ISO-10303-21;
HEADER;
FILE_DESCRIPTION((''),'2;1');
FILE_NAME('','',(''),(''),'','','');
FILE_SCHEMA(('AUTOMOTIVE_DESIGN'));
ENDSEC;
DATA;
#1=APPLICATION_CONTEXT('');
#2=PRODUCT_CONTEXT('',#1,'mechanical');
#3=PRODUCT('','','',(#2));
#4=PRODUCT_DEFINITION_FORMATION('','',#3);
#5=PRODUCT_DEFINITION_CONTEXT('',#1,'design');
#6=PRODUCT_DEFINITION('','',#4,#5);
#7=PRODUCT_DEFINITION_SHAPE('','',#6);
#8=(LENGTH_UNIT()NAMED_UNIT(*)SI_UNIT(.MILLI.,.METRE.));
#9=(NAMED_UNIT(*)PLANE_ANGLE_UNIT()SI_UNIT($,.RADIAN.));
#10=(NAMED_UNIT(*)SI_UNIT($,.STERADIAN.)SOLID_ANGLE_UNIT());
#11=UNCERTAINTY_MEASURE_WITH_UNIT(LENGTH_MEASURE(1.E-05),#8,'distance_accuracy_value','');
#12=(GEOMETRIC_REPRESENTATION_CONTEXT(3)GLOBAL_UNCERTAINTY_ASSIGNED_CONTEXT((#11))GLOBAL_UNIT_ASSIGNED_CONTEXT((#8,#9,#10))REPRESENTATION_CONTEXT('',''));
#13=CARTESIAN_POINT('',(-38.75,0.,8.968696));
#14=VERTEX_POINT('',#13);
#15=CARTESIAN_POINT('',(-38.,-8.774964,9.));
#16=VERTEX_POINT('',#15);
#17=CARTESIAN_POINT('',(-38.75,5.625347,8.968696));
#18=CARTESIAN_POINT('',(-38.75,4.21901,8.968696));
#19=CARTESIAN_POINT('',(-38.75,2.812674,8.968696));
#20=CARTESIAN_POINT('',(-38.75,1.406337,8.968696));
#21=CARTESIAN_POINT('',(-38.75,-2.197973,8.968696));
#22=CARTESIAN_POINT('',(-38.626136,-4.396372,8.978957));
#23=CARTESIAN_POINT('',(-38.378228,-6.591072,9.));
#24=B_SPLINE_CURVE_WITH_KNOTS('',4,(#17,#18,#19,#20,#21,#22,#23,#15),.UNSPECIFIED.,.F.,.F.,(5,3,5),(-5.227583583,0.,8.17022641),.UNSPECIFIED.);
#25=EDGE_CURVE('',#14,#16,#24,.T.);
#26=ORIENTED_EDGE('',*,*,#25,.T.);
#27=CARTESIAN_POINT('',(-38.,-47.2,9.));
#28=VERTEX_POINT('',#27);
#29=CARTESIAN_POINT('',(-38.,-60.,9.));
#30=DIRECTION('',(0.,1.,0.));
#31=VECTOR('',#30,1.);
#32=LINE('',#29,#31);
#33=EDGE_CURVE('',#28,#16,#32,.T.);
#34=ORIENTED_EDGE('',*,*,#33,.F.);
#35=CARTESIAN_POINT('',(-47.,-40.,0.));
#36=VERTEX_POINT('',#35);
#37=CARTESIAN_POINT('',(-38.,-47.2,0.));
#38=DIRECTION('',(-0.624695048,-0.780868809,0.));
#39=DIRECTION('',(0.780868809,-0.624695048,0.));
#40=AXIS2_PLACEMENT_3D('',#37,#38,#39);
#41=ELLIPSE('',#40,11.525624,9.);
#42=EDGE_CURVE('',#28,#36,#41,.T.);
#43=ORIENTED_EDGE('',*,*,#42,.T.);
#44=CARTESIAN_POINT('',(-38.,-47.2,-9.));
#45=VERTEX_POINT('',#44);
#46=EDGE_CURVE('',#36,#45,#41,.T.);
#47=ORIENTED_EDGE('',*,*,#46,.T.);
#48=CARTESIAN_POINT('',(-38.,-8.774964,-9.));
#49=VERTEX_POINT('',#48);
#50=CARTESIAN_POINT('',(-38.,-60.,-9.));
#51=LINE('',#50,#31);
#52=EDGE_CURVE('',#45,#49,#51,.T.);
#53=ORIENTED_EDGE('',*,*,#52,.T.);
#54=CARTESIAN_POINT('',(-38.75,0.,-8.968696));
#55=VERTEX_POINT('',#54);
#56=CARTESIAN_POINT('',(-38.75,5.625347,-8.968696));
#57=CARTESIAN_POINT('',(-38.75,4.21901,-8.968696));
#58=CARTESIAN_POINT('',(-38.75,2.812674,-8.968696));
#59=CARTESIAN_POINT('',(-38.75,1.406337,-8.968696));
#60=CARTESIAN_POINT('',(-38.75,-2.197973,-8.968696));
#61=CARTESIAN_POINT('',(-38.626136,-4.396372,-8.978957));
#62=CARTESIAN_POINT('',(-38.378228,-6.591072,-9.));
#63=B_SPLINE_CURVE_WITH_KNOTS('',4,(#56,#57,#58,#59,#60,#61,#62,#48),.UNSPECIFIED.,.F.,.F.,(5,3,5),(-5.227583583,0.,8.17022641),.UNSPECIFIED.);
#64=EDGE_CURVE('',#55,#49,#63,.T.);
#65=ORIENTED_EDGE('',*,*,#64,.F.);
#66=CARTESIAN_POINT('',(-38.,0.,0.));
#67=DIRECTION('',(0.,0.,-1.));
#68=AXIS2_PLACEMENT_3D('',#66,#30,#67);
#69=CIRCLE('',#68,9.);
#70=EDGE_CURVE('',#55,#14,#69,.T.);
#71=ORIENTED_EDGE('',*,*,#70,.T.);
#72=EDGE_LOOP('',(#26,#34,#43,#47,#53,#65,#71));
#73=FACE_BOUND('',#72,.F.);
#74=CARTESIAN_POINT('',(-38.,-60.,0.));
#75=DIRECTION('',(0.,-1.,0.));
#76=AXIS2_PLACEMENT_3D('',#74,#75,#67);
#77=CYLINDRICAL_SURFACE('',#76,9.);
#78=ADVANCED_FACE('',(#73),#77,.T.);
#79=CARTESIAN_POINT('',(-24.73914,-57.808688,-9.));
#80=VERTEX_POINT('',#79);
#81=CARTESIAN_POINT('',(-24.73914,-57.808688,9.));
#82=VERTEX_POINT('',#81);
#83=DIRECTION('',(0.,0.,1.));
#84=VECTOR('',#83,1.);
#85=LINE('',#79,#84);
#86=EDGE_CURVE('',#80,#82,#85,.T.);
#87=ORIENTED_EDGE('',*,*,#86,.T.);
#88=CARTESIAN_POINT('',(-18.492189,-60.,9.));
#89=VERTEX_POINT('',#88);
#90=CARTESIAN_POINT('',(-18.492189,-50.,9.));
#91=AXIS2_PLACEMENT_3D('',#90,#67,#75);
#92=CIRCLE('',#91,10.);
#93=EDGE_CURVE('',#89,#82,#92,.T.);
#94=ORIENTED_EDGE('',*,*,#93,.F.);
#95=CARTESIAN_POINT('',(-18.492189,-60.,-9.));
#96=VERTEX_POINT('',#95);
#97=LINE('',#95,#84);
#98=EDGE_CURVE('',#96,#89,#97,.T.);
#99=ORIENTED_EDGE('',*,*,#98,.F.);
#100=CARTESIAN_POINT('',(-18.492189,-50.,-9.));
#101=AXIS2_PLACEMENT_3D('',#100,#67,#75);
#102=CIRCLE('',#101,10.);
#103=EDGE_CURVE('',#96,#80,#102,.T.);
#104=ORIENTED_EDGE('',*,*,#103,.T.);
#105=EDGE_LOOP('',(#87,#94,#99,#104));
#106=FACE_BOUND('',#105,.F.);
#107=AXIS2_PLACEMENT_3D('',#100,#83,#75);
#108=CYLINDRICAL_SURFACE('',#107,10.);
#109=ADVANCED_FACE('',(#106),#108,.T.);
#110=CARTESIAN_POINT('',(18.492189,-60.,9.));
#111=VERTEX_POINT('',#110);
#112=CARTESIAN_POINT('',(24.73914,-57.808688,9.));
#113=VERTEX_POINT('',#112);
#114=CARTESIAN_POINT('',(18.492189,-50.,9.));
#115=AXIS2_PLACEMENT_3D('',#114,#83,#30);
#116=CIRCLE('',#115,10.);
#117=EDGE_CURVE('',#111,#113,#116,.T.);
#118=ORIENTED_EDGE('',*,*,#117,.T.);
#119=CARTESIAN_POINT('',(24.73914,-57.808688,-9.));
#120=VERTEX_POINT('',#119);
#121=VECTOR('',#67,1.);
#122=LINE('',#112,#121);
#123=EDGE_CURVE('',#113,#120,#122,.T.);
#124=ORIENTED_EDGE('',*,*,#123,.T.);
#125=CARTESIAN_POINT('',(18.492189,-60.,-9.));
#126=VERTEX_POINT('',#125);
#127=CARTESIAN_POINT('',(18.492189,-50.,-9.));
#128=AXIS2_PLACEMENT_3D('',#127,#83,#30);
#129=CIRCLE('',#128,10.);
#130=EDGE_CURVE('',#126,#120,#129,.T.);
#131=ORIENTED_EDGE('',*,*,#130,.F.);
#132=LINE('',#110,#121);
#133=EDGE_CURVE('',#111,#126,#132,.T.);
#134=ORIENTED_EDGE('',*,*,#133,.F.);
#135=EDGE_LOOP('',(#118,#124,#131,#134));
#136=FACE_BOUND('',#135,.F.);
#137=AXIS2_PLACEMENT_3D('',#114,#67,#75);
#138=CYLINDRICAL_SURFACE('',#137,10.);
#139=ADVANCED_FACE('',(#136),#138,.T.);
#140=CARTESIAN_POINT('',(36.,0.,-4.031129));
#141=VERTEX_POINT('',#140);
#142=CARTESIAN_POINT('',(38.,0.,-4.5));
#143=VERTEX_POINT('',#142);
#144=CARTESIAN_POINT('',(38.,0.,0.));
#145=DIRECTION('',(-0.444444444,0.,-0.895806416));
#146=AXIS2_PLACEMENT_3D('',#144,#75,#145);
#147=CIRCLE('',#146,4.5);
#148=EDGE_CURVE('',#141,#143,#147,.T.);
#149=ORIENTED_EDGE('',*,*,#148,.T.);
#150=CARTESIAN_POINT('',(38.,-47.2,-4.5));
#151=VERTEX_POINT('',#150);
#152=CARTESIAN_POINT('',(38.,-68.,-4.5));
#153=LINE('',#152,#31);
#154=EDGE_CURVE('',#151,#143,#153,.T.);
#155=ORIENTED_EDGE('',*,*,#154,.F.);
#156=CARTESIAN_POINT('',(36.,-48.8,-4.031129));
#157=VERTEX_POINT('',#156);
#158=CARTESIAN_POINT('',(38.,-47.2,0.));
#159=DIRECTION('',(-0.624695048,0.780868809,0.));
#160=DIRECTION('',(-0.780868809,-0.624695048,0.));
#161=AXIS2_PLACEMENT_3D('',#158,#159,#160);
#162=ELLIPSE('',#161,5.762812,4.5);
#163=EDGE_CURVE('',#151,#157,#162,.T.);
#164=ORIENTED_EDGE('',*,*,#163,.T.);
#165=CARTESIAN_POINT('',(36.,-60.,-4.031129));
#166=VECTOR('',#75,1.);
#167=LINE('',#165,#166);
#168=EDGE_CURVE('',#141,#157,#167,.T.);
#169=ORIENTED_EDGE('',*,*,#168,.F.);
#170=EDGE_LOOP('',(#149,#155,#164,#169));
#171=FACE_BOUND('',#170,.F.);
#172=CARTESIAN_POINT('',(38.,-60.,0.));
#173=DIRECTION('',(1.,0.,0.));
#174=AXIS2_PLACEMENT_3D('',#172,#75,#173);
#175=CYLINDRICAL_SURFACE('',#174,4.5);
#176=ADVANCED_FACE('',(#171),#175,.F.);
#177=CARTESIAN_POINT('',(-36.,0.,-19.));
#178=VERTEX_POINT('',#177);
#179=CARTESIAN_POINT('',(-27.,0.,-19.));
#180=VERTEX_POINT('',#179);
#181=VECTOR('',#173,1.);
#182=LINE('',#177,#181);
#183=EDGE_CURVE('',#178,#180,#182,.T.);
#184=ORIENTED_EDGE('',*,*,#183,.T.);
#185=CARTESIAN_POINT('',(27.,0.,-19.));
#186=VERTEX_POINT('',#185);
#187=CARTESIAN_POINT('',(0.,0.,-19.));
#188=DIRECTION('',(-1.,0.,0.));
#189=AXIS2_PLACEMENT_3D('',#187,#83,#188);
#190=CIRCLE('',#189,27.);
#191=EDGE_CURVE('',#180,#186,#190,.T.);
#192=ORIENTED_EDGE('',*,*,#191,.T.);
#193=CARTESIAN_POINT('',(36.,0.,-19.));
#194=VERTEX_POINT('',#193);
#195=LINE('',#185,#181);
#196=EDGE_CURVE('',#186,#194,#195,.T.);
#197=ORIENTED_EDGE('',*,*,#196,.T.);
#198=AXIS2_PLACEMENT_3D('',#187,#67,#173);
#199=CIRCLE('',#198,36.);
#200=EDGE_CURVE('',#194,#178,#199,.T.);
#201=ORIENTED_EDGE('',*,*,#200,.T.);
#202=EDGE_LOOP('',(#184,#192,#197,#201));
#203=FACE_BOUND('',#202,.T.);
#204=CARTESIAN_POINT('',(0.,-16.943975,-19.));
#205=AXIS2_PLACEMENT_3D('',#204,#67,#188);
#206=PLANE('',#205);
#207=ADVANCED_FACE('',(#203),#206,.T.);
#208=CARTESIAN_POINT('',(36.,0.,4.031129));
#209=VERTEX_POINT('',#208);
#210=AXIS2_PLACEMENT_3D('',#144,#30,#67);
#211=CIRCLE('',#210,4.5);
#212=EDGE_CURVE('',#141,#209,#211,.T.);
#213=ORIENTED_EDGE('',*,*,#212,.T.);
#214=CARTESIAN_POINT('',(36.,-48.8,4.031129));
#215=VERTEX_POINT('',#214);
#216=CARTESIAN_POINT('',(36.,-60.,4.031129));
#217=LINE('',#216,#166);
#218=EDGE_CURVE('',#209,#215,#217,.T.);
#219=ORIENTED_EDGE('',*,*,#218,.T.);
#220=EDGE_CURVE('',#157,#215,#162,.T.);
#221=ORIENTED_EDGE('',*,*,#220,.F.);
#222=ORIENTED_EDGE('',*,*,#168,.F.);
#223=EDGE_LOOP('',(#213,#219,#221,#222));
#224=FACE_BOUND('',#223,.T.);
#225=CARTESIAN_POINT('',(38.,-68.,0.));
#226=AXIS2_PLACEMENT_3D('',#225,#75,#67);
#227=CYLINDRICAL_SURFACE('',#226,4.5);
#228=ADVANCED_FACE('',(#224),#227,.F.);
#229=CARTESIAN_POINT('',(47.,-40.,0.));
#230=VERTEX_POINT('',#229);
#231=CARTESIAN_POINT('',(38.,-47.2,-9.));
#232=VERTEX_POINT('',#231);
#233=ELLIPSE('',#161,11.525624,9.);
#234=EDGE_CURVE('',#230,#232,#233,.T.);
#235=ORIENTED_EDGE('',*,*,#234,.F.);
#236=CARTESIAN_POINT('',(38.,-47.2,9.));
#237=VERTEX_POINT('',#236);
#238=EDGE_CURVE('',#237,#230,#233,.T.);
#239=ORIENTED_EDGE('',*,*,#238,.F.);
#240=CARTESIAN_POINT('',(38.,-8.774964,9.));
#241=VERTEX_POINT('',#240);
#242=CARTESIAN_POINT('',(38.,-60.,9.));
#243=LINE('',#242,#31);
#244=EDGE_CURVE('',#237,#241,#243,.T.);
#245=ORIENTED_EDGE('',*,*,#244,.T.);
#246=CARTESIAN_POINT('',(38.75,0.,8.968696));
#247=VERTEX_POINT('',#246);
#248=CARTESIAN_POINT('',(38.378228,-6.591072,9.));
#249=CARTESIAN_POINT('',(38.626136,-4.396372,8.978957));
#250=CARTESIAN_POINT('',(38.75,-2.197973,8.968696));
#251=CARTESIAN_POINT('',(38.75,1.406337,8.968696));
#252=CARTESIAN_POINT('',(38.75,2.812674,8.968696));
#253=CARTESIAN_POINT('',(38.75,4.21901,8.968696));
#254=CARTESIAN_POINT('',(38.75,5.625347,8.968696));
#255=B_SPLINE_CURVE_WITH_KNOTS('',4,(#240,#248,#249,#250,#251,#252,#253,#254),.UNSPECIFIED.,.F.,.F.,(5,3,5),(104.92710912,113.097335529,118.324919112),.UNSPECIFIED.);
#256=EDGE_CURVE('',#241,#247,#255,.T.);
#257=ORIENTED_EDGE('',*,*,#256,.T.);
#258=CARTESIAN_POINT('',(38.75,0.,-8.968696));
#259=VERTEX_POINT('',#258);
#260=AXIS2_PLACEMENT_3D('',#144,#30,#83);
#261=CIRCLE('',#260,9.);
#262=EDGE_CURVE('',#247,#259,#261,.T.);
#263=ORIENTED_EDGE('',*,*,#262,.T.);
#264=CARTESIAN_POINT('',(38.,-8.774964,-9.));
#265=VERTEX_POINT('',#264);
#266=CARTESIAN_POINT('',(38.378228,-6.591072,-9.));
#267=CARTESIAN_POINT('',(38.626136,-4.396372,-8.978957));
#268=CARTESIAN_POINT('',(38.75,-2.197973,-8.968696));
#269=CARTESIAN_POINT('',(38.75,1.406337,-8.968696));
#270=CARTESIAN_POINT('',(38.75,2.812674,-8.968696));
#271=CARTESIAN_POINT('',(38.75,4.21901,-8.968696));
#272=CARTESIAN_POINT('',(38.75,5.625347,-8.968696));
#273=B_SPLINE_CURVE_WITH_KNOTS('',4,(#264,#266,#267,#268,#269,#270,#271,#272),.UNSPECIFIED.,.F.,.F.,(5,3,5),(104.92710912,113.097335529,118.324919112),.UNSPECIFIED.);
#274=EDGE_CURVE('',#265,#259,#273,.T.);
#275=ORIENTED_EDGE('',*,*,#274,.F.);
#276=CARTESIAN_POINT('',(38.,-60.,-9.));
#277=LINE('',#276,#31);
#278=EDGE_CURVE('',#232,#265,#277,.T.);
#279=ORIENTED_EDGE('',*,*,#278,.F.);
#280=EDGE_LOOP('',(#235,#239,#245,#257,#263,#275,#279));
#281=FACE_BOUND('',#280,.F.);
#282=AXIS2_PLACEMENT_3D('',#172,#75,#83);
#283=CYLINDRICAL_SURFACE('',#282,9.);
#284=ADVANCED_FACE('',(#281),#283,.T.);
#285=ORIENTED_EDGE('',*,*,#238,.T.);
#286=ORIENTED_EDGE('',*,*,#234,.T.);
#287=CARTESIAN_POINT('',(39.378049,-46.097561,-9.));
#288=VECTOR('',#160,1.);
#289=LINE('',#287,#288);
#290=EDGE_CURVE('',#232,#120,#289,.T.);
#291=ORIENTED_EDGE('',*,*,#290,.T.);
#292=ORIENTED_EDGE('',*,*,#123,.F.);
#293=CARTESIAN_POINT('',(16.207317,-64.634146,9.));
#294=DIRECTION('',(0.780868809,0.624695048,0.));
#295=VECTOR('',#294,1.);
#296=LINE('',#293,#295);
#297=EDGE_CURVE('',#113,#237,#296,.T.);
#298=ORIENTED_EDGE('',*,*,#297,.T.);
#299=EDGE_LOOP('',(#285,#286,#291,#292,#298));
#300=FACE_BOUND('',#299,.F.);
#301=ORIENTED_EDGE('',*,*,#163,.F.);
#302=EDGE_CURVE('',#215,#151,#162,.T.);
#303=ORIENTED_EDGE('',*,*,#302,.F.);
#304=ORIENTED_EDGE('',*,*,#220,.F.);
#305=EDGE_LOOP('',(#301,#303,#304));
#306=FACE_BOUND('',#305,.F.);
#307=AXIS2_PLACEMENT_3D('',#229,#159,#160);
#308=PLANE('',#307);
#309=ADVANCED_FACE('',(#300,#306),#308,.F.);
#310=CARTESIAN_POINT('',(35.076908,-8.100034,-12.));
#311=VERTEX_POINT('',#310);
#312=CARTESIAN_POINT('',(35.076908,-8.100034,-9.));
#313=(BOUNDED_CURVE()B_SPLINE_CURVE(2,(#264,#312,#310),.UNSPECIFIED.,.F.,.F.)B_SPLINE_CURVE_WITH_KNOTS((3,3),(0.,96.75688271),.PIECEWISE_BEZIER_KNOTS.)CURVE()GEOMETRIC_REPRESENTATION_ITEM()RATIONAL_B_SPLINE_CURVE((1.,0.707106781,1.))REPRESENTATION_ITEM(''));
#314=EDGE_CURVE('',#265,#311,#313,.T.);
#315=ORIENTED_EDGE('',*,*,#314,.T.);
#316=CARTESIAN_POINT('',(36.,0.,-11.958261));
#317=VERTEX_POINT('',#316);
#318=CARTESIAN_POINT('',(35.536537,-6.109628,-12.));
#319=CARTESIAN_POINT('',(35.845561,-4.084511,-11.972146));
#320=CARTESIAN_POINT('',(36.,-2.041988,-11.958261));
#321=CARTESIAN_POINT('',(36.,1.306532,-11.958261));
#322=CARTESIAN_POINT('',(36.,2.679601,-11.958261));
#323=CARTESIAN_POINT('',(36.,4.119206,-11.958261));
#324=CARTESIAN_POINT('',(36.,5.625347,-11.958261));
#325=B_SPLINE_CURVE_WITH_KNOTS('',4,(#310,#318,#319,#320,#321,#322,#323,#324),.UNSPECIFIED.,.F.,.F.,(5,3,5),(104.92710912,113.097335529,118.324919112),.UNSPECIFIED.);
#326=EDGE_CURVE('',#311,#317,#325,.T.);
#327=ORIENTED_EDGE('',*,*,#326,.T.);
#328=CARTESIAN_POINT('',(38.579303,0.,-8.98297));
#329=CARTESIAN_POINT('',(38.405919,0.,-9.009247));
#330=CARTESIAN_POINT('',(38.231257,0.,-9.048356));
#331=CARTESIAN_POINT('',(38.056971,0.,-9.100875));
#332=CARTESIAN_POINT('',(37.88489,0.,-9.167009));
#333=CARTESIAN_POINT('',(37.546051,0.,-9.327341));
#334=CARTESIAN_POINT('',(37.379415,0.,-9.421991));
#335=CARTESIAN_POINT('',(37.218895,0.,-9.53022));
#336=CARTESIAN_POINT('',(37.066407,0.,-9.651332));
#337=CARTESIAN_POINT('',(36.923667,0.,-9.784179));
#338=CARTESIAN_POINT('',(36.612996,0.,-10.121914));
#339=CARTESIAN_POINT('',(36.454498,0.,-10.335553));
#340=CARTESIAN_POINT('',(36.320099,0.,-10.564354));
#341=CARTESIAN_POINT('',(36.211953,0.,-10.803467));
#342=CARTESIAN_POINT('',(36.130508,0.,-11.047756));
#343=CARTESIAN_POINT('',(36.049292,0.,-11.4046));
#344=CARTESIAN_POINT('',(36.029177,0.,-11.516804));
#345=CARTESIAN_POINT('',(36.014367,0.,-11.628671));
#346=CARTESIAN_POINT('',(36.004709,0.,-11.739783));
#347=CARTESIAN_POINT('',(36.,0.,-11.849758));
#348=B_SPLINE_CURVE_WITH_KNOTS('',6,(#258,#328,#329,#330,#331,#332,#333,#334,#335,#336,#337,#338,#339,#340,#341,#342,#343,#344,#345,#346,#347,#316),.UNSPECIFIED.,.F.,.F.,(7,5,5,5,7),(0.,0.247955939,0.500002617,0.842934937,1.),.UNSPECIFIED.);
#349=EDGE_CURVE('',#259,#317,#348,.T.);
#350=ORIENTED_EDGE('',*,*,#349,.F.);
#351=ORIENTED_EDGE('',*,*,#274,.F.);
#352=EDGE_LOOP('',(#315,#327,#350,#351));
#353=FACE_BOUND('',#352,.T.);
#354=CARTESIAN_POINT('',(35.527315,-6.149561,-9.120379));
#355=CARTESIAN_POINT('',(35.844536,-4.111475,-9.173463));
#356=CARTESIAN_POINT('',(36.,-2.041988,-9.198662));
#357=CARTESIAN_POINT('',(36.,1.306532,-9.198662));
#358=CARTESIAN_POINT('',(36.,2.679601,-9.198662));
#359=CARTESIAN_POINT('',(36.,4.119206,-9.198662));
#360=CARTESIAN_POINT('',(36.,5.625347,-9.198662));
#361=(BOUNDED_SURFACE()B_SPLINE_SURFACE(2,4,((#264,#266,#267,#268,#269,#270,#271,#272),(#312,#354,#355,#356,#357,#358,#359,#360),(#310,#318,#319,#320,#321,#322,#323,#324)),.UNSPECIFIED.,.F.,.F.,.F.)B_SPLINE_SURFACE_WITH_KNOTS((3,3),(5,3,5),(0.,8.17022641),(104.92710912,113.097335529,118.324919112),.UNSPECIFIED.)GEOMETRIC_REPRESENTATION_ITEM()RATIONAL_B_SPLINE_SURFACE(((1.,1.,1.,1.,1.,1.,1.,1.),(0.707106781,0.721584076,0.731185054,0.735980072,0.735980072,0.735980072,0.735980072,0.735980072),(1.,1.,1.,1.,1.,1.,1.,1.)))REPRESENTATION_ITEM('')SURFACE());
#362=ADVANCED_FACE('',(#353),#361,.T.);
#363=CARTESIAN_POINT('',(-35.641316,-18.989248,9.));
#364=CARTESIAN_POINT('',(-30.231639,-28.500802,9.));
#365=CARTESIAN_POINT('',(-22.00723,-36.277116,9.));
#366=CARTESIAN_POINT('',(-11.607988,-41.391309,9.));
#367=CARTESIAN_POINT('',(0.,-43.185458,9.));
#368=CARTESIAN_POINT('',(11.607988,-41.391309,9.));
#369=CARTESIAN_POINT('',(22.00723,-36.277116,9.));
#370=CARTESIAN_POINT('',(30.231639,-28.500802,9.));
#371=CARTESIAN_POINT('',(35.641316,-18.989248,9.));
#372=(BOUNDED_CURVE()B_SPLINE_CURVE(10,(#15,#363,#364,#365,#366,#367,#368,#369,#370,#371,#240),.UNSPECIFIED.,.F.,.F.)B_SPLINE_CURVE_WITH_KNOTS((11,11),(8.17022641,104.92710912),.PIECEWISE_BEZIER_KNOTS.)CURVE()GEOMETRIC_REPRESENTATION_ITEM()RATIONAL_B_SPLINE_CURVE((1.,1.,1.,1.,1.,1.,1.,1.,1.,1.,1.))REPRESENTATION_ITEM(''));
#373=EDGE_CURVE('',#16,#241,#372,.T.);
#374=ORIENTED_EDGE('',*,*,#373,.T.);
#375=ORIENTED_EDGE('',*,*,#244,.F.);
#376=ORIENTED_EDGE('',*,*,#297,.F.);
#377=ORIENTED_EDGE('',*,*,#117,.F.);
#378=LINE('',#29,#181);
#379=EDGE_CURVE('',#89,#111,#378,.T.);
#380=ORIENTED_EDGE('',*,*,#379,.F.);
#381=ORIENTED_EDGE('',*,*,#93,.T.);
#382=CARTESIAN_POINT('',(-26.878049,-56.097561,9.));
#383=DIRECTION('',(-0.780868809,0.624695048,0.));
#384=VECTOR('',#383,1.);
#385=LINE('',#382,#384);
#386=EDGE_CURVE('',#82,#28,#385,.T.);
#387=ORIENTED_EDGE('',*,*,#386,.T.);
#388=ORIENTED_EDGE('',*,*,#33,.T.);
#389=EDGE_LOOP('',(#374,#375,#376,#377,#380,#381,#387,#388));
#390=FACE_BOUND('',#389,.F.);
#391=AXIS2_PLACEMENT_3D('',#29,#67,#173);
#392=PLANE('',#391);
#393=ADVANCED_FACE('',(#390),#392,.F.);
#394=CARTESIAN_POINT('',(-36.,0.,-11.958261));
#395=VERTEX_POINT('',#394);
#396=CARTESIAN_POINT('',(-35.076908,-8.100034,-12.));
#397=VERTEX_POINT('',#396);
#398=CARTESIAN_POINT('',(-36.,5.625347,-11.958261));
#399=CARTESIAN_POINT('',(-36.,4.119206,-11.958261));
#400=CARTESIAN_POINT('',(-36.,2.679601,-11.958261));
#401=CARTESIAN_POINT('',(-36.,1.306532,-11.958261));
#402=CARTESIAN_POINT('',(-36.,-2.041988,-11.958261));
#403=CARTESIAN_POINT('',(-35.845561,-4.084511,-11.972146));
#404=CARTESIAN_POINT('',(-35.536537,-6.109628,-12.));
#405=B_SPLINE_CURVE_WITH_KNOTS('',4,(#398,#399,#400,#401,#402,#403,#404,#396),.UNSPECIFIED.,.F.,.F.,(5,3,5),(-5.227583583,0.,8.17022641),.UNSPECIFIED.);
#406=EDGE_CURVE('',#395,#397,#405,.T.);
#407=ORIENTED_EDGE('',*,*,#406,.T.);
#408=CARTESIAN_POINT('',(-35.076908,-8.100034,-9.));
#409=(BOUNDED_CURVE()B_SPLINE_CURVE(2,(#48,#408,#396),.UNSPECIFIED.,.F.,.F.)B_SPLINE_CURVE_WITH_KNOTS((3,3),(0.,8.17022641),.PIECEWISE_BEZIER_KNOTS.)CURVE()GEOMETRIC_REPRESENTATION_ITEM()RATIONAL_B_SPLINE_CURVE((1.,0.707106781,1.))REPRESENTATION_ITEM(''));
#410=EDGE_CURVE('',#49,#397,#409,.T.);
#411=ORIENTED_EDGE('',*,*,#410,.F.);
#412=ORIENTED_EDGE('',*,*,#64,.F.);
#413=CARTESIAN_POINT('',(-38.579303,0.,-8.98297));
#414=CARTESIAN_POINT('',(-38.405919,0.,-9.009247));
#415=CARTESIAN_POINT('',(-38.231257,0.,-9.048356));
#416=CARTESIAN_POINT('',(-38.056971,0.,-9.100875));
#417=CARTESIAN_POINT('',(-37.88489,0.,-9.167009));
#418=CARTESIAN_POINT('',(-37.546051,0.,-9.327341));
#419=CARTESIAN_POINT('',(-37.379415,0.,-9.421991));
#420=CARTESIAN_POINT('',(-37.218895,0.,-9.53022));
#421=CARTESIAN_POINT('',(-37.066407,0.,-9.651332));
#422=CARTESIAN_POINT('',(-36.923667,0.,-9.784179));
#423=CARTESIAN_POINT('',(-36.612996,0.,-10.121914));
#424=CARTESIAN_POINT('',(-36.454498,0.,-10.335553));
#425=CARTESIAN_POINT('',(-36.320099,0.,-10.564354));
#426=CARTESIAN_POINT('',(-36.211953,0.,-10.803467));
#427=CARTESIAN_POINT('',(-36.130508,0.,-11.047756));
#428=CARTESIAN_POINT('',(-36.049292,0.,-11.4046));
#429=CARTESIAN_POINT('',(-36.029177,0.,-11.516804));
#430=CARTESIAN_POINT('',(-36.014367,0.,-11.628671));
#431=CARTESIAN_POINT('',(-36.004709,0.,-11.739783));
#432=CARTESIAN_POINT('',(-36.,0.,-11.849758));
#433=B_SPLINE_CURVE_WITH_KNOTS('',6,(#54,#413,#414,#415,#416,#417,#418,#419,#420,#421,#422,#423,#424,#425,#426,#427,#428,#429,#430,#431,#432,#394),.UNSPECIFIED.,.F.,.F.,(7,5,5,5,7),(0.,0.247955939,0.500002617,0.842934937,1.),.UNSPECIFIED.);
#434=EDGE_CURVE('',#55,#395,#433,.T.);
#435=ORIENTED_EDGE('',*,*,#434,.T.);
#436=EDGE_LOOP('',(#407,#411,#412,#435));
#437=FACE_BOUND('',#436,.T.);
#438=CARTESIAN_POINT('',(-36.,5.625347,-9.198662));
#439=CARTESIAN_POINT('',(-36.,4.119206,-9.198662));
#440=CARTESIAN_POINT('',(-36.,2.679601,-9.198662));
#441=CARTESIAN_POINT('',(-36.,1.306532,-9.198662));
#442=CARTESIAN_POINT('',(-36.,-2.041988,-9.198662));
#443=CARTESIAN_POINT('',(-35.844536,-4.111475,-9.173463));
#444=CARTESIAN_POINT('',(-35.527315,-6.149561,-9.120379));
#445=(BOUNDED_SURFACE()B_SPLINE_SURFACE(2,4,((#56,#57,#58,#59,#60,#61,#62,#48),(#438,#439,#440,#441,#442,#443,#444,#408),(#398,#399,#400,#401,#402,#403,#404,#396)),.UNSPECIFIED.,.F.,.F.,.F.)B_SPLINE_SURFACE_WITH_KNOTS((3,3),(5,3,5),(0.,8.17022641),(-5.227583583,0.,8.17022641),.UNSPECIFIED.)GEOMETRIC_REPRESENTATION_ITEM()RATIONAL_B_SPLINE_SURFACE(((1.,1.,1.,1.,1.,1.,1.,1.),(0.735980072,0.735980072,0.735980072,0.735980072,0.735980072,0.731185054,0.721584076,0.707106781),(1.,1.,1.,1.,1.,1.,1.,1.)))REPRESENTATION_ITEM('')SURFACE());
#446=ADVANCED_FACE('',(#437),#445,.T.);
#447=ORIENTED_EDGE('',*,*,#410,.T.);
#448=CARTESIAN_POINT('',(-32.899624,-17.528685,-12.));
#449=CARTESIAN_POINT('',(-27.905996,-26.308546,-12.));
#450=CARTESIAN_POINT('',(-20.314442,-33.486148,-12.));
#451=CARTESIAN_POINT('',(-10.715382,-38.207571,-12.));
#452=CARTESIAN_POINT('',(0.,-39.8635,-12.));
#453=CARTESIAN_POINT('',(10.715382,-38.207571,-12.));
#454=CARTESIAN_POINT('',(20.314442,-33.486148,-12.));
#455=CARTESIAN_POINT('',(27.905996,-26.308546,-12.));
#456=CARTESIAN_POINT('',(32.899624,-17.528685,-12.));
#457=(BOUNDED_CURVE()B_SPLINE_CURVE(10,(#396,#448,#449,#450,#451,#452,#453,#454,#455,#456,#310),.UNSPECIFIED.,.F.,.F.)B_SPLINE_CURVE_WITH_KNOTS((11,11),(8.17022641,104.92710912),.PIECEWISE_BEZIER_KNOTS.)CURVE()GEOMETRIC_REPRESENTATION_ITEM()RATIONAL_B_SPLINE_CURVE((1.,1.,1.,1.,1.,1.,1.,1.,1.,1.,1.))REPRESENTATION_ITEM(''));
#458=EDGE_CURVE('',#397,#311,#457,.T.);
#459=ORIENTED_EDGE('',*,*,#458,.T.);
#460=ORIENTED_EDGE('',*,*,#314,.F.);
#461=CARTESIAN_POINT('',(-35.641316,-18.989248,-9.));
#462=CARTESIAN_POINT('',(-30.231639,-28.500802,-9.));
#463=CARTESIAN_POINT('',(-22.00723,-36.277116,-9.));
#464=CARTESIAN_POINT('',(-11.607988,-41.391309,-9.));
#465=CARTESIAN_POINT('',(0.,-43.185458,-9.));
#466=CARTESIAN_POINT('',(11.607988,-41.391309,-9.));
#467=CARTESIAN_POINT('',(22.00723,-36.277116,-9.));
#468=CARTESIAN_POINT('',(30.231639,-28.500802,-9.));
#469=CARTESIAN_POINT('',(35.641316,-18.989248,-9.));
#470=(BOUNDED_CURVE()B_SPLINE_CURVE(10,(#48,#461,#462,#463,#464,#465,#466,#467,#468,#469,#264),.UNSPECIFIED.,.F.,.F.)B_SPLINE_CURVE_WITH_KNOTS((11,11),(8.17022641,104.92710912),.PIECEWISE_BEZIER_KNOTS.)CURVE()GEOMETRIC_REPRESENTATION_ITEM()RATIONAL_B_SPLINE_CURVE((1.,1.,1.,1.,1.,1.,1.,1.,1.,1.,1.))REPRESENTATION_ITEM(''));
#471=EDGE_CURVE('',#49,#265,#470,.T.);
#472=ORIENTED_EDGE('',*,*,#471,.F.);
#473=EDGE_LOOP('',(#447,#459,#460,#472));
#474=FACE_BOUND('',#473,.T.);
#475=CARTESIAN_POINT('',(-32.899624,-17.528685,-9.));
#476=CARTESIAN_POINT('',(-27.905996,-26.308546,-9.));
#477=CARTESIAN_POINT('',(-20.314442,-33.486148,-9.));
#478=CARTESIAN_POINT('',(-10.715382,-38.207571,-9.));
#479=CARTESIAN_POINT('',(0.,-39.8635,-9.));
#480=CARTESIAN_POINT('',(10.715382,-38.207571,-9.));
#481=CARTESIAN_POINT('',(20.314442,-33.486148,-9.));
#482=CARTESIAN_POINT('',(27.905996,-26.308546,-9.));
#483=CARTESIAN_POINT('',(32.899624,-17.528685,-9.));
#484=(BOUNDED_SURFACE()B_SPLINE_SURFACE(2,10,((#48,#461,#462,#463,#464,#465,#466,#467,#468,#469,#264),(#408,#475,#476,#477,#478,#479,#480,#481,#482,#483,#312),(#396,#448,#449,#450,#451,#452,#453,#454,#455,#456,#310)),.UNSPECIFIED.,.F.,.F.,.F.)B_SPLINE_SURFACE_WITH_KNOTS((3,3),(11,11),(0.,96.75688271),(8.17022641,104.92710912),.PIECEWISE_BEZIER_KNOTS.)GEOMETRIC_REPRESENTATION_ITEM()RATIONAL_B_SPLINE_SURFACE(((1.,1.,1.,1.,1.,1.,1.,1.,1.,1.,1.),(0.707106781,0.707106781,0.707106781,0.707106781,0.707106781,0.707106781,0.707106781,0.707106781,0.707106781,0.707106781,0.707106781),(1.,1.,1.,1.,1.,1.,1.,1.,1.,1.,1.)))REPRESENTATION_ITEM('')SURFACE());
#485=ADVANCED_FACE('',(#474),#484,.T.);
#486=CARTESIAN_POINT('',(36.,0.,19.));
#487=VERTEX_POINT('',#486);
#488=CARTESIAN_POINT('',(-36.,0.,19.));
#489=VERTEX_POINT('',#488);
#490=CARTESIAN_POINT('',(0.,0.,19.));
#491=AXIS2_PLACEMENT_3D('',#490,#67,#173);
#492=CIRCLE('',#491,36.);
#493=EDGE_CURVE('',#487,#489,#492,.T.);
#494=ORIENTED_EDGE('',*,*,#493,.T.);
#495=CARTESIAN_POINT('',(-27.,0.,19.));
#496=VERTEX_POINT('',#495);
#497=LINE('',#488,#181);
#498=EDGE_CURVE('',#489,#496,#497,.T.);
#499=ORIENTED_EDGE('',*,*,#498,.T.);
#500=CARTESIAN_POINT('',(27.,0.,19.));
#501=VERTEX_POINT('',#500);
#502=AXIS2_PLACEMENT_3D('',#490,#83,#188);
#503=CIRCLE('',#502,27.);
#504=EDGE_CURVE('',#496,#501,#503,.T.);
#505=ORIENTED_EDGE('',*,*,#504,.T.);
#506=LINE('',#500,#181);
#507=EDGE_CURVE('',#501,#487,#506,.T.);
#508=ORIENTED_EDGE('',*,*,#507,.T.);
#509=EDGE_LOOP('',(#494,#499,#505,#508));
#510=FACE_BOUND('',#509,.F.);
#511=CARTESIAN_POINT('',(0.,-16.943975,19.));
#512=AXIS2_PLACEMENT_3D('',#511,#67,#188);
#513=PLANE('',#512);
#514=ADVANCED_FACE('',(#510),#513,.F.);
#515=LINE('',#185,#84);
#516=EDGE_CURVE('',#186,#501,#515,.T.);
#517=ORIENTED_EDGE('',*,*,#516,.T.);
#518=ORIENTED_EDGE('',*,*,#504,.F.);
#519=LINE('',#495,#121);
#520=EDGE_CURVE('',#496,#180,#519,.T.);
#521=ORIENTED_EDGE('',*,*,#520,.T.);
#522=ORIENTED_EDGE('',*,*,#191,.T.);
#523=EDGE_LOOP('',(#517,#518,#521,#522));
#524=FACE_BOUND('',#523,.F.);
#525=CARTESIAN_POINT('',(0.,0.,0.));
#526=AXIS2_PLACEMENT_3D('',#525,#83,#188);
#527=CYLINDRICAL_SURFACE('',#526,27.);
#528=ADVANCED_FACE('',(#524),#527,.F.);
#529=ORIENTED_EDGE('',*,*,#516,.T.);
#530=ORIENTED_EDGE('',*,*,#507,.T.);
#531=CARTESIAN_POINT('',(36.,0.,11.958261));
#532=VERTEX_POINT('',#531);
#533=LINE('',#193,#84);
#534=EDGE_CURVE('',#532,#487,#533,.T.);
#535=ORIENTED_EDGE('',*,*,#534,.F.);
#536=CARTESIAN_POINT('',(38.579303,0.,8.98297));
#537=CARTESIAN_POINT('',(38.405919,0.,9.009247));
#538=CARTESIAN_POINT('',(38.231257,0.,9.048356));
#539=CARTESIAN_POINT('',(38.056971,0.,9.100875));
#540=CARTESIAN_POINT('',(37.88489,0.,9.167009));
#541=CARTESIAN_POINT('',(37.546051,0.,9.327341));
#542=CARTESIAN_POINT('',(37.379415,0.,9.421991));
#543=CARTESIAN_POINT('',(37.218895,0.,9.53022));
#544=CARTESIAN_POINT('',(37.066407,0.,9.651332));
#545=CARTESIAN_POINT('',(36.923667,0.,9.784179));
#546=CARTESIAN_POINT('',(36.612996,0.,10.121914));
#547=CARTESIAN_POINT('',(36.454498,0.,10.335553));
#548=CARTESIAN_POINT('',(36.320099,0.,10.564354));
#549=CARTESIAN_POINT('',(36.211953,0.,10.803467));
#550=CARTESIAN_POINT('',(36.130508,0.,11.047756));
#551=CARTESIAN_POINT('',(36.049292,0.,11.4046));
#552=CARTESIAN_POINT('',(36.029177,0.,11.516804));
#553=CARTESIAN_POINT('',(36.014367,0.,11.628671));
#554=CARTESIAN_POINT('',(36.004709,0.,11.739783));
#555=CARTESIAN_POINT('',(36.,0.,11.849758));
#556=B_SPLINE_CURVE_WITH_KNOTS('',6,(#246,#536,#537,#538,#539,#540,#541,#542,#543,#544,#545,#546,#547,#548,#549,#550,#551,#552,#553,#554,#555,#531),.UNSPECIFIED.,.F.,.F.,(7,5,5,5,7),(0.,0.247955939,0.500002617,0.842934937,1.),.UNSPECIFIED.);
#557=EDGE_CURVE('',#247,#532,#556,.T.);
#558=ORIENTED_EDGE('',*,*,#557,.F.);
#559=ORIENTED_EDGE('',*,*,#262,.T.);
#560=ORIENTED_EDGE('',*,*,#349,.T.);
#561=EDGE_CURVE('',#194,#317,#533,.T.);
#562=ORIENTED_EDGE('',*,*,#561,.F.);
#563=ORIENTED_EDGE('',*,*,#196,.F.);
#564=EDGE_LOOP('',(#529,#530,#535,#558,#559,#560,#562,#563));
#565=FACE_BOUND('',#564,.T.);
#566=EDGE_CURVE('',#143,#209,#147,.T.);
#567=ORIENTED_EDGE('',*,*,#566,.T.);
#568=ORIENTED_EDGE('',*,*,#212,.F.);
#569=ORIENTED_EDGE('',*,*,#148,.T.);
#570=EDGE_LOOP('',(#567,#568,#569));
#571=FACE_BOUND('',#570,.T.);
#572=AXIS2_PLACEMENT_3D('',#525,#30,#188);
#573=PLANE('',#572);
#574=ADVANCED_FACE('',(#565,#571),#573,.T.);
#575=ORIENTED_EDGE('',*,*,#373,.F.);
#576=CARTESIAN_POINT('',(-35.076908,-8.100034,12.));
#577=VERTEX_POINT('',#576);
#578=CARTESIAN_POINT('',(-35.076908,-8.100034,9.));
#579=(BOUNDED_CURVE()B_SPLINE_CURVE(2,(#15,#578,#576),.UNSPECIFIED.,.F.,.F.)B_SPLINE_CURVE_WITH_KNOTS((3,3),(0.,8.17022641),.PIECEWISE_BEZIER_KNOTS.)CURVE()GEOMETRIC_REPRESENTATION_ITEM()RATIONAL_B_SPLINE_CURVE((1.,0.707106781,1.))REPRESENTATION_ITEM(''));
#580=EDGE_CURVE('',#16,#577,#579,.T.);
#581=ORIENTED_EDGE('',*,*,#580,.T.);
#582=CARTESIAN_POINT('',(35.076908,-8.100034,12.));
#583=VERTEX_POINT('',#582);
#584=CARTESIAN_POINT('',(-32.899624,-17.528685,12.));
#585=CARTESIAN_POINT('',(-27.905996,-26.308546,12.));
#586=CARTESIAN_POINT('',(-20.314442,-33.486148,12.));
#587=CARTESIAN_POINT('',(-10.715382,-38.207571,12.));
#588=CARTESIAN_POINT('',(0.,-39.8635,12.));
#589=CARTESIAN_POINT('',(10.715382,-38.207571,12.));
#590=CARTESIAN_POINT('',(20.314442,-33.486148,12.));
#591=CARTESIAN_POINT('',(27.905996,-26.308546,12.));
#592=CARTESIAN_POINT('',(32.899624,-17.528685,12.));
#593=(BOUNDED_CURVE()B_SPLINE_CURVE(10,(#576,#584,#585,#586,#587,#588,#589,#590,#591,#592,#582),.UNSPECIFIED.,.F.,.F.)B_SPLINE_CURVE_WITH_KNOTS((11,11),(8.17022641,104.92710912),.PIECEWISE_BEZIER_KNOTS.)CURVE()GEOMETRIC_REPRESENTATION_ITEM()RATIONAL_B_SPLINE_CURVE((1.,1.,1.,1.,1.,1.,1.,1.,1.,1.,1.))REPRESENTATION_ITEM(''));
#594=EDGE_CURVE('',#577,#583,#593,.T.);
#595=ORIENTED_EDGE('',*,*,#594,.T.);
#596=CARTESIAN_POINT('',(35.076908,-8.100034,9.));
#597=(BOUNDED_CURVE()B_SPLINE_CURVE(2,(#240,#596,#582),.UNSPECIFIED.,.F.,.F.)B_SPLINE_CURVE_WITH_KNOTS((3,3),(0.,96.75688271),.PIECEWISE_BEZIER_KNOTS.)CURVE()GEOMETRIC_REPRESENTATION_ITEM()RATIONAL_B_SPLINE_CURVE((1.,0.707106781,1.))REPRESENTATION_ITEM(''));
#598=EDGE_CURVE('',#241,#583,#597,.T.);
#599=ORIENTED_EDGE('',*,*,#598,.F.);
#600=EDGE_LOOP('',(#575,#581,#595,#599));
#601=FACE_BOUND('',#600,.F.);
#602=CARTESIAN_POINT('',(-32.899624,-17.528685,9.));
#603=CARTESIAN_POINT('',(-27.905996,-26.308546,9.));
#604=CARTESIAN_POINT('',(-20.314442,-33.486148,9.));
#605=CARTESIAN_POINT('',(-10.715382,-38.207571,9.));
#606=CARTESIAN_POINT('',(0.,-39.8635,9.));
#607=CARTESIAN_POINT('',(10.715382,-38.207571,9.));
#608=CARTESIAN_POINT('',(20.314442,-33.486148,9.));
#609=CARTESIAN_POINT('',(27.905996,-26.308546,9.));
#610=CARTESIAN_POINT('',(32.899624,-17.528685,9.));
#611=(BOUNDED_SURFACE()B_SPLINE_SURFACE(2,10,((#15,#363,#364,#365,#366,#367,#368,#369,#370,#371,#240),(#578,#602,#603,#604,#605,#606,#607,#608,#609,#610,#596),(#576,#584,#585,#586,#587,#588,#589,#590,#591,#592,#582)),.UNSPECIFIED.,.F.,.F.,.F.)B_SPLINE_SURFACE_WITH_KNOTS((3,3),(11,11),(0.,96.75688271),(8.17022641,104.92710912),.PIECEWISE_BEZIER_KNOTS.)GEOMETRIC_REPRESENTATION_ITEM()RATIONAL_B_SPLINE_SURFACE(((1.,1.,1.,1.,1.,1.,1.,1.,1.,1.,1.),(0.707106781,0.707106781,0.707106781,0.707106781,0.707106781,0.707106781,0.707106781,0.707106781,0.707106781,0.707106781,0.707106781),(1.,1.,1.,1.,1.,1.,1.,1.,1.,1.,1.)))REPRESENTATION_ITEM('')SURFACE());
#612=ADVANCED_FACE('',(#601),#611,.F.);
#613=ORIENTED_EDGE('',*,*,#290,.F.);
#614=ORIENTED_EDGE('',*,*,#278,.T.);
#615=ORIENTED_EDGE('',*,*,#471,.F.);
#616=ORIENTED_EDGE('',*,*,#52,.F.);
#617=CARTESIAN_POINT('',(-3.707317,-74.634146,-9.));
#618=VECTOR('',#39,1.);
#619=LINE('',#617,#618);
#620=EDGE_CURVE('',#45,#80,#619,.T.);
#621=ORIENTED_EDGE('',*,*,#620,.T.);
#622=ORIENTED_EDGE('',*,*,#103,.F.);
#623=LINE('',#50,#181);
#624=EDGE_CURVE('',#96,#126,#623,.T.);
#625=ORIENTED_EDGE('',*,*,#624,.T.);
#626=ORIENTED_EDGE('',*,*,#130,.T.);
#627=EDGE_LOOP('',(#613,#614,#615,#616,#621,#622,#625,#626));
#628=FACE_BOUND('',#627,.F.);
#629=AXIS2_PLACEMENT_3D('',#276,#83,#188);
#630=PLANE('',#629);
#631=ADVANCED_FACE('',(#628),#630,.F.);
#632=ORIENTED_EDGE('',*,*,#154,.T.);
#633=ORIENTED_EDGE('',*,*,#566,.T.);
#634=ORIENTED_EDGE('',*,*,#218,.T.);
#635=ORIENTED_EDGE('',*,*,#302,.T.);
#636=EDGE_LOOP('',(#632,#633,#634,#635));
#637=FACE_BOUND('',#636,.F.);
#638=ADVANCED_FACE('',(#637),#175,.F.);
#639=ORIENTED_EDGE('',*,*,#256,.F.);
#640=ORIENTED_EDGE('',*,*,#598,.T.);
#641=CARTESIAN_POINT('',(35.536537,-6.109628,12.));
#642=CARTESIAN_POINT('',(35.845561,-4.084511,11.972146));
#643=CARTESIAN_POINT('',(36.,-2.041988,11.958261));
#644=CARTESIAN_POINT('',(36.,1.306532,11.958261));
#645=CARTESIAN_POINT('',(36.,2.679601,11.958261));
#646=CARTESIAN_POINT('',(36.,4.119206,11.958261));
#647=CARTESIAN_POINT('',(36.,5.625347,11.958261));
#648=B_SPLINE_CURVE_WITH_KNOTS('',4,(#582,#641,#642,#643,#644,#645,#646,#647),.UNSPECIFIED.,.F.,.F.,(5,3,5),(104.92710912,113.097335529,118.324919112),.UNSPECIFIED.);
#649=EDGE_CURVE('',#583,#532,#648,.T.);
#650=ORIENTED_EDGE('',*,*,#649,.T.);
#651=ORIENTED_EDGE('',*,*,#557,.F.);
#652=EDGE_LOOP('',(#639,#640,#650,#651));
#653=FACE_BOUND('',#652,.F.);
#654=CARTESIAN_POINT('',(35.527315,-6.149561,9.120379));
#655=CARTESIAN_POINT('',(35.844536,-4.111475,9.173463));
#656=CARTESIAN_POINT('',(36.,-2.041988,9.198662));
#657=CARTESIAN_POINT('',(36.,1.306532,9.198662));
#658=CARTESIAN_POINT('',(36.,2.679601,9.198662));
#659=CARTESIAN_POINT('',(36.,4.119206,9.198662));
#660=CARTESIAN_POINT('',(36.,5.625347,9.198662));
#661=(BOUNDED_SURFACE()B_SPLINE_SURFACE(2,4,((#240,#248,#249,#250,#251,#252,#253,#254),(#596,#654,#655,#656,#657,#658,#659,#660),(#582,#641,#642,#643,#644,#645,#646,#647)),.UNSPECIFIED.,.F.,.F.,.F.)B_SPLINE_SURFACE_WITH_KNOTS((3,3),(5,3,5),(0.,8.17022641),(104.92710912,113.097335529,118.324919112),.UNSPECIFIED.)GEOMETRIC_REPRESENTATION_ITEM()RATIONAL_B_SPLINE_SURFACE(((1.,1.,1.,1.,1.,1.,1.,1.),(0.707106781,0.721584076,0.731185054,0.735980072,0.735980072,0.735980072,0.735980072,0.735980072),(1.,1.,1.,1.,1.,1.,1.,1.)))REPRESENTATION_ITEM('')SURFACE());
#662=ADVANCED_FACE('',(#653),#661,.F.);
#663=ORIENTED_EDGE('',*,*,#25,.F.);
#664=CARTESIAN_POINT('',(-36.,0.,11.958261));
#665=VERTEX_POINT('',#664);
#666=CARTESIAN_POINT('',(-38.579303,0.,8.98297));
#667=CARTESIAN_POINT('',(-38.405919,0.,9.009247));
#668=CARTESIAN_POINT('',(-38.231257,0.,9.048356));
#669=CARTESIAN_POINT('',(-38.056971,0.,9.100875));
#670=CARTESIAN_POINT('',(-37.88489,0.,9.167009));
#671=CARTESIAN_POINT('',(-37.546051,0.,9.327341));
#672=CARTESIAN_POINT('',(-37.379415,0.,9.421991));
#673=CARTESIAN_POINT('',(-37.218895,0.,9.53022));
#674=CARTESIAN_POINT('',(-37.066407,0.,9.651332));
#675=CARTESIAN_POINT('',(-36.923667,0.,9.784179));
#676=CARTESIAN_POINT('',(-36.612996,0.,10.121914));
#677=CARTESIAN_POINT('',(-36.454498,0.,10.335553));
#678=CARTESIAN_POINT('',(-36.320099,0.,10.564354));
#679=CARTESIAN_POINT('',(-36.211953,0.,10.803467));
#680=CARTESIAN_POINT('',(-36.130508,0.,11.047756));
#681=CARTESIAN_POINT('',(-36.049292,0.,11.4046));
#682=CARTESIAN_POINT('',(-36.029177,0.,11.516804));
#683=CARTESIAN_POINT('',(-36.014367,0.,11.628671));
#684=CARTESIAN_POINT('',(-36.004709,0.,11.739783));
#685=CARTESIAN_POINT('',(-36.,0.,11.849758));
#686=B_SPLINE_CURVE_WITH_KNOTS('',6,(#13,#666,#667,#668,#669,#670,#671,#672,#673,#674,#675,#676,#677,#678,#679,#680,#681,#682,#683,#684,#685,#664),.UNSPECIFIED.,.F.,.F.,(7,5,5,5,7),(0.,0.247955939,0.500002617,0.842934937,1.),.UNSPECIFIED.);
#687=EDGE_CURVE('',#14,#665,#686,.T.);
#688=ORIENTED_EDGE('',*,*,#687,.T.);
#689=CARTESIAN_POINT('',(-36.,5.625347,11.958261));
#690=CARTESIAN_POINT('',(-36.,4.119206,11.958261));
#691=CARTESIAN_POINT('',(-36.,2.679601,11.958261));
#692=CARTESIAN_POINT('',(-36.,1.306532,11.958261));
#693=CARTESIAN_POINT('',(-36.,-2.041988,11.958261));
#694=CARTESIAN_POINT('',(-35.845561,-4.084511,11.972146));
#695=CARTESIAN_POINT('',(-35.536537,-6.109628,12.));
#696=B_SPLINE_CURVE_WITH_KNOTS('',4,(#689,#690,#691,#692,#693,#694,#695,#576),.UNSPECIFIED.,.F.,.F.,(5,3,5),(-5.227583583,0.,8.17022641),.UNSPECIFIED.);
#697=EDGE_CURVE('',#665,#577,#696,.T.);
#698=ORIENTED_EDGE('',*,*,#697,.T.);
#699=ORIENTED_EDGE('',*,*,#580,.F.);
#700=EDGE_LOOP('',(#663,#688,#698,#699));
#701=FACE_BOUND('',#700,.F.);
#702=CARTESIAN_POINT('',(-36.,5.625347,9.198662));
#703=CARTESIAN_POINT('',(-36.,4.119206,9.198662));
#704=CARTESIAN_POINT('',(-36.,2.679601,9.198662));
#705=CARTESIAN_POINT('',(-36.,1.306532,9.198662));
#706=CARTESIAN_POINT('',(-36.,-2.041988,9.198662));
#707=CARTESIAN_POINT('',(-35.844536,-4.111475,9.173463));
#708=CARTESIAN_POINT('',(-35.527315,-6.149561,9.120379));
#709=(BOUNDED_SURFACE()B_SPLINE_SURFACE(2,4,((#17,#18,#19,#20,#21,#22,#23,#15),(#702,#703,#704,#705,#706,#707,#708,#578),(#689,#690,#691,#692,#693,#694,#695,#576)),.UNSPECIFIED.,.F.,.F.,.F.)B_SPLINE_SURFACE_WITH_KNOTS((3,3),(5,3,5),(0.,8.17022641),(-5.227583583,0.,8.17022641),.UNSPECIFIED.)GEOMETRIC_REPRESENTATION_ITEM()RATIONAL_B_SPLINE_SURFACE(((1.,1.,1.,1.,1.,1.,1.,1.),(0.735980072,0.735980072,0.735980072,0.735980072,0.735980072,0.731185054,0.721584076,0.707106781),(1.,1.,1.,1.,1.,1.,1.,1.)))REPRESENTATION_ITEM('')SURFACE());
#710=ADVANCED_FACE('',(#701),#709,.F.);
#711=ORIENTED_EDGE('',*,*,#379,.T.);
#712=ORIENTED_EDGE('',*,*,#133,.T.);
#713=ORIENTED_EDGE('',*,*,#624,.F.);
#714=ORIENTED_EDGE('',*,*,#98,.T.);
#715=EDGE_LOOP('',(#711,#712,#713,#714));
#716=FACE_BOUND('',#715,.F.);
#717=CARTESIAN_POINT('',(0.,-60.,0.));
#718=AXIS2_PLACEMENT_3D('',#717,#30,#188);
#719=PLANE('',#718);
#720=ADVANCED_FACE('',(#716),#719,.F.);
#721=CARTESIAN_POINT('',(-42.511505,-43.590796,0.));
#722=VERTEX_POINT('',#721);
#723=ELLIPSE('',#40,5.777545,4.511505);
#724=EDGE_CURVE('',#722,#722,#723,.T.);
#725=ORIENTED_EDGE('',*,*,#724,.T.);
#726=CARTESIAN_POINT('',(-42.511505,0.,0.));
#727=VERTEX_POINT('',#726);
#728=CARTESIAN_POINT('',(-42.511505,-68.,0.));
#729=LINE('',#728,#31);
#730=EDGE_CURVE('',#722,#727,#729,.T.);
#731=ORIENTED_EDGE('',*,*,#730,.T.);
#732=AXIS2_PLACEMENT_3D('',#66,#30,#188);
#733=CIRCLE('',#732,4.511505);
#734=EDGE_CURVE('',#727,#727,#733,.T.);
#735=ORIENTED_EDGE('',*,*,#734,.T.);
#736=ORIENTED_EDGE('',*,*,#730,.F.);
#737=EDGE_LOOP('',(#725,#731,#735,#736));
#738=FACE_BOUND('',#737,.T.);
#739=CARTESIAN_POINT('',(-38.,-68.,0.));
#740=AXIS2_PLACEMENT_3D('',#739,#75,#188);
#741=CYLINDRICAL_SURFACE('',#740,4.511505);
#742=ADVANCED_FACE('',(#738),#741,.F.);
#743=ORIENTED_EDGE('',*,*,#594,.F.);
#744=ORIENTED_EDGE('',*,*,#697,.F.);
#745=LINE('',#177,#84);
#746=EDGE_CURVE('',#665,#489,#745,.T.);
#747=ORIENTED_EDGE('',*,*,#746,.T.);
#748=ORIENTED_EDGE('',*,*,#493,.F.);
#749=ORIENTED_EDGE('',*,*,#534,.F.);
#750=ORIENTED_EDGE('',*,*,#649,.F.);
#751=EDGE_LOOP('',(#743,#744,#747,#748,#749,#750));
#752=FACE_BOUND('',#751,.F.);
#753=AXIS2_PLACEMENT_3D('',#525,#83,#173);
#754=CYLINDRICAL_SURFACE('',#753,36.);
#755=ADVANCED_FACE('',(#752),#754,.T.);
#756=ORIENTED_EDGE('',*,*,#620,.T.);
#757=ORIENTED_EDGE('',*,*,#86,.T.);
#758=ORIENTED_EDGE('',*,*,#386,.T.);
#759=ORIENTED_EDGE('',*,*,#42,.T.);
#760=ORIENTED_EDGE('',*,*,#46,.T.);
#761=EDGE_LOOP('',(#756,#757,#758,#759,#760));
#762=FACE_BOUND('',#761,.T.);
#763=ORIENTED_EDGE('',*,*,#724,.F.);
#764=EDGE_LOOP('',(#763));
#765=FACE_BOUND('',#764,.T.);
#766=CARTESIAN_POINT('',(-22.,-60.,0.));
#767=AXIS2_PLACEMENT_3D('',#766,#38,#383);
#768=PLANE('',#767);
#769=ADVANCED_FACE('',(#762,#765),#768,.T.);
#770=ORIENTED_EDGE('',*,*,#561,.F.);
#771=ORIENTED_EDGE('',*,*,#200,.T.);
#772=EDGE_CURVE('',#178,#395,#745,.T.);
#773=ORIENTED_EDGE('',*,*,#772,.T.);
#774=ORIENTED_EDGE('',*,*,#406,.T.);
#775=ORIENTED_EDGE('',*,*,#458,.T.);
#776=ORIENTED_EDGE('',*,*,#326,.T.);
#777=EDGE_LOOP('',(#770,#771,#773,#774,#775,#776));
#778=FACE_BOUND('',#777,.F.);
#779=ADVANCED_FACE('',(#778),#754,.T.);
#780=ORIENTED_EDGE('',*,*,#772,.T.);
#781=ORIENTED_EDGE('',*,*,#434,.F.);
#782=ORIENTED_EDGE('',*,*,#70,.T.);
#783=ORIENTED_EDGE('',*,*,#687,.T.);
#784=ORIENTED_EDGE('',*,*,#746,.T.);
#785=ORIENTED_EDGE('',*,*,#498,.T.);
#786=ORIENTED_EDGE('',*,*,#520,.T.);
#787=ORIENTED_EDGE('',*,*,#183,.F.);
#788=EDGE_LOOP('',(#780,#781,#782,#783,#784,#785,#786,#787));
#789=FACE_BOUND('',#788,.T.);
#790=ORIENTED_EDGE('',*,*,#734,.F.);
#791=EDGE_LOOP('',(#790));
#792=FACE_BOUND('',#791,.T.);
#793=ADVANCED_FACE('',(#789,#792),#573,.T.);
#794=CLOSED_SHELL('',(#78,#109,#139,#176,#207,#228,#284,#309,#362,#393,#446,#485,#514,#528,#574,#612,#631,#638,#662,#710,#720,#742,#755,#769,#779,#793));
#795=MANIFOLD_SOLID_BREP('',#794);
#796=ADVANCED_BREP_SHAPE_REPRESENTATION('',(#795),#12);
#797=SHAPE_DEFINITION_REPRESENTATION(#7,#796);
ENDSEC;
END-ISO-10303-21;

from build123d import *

# Parameters (mm, degrees)
BOSS_EXTRUDE1_DEPTH = 19
BOSS_EXTRUDE2_DEPTH = 9
SKETCH2_R           = 4.5
BOSS_EXTRUDE3_DEPTH = 60
CUT_EXTRUDE1_START  = -18
CUT_EXTRUDE1_DEPTH  = 18
CUT_EXTRUDE2_START  = -68
SKETCH4_R           = 4.511504631
SKETCH4_R_2         = 4.5
CUT_EXTRUDE2_DEPTH  = 68
CUT_EXTRUDE3_DEPTH  = 34
FILLET1_R           = 10
FILLET2_R           = 3


with BuildPart() as part:
    # Sketch1 → Boss-Extrude1 (new, symmetric)
    with BuildSketch(Plane.XY):
        with BuildLine():
            Line((-36, 0), (-27, 0))
            ThreePointArc((-27, 0), (0, -27), (27, 0))
            Line((27, 0), (36, 0))
            ThreePointArc((36, 0), (0, -36), (-36, 0))
        make_face()
    extrude(amount=BOSS_EXTRUDE1_DEPTH, both=True)

    # Sketch1<3> → Boss-Extrude2 (add, symmetric)
    with BuildSketch(Plane.XY):
        with BuildLine():
            ThreePointArc((-36, 0), (0, -36), (36, 0))
            Line((36, 0), (36, -60))
            Line((36, -60), (-36, -60))
            Line((-36, -60), (-36, 0))
        make_face()
    extrude(amount=BOSS_EXTRUDE2_DEPTH, both=True)

    # Sketch2 → Boss-Extrude3 (add)
    with BuildSketch(Plane.XZ.offset(60)):
        with BuildLine():
            Line((-38, 9), (38, 9))
            ThreePointArc((38, 9), (47, 0), (38, -9))
            Line((38, -9), (-38, -9))
            ThreePointArc((-38, -9), (-47, 0), (-38, 9))
        make_face()
        with Locations((-38, 0)):
            Circle(SKETCH2_R, mode=Mode.SUBTRACT)
        with Locations((38, 0)):
            Circle(SKETCH2_R, mode=Mode.SUBTRACT)
    extrude(amount=-BOSS_EXTRUDE3_DEPTH)

    # Sketch3 → Cut-Extrude1 (cut)
    with BuildSketch(Plane(origin=(0, 0, -9), x_dir=(-1, 0, 0), z_dir=(0, 0, -1)).offset(CUT_EXTRUDE1_START)):
        with BuildLine():
            Line((27, 0), (-27, 0))
            ThreePointArc((-27, 0), (0, -27), (27, 0))
        make_face()
    extrude(amount=CUT_EXTRUDE1_DEPTH, mode=Mode.SUBTRACT)

    # Sketch4 → Cut-Extrude2 (cut)
    with BuildSketch(Plane(origin=(0, 0, 0), x_dir=(1, 0, 0), z_dir=(0, 1, 0)).offset(CUT_EXTRUDE2_START)):
        with Locations(Location((-38, 0, 0), (0, 0, 180))):
            Circle(SKETCH4_R)
        with Locations(Location((38, 0, 0), (0, 0, 90))):
            Circle(SKETCH4_R_2)
    extrude(amount=CUT_EXTRUDE2_DEPTH, mode=Mode.SUBTRACT)

    # Sketch5 → Cut-Extrude3 (cut, symmetric)
    with BuildSketch(Plane.XY):
        Polygon((-47, -60), (-22, -60), (-47, -40), align=None)
        Polygon((47, -60), (47, -40), (22, -60), align=None)
    extrude(amount=CUT_EXTRUDE3_DEPTH, both=True, mode=Mode.SUBTRACT)

    # Fillet1
    fillet1_edges = [part.edges().sort_by_distance(p)[0] for p in [
        (-22, -60, 0),
        (22, -60, 0),
    ]]
    fillet(fillet1_edges, radius=FILLET1_R)

    # Fillet2
    fillet2_edges = [part.edges().sort_by_distance(p)[0] for p in [
        (0, -36, 9),
        (0, -36, -9),
    ]]
    fillet(fillet2_edges, radius=FILLET2_R)


solid = part.part
